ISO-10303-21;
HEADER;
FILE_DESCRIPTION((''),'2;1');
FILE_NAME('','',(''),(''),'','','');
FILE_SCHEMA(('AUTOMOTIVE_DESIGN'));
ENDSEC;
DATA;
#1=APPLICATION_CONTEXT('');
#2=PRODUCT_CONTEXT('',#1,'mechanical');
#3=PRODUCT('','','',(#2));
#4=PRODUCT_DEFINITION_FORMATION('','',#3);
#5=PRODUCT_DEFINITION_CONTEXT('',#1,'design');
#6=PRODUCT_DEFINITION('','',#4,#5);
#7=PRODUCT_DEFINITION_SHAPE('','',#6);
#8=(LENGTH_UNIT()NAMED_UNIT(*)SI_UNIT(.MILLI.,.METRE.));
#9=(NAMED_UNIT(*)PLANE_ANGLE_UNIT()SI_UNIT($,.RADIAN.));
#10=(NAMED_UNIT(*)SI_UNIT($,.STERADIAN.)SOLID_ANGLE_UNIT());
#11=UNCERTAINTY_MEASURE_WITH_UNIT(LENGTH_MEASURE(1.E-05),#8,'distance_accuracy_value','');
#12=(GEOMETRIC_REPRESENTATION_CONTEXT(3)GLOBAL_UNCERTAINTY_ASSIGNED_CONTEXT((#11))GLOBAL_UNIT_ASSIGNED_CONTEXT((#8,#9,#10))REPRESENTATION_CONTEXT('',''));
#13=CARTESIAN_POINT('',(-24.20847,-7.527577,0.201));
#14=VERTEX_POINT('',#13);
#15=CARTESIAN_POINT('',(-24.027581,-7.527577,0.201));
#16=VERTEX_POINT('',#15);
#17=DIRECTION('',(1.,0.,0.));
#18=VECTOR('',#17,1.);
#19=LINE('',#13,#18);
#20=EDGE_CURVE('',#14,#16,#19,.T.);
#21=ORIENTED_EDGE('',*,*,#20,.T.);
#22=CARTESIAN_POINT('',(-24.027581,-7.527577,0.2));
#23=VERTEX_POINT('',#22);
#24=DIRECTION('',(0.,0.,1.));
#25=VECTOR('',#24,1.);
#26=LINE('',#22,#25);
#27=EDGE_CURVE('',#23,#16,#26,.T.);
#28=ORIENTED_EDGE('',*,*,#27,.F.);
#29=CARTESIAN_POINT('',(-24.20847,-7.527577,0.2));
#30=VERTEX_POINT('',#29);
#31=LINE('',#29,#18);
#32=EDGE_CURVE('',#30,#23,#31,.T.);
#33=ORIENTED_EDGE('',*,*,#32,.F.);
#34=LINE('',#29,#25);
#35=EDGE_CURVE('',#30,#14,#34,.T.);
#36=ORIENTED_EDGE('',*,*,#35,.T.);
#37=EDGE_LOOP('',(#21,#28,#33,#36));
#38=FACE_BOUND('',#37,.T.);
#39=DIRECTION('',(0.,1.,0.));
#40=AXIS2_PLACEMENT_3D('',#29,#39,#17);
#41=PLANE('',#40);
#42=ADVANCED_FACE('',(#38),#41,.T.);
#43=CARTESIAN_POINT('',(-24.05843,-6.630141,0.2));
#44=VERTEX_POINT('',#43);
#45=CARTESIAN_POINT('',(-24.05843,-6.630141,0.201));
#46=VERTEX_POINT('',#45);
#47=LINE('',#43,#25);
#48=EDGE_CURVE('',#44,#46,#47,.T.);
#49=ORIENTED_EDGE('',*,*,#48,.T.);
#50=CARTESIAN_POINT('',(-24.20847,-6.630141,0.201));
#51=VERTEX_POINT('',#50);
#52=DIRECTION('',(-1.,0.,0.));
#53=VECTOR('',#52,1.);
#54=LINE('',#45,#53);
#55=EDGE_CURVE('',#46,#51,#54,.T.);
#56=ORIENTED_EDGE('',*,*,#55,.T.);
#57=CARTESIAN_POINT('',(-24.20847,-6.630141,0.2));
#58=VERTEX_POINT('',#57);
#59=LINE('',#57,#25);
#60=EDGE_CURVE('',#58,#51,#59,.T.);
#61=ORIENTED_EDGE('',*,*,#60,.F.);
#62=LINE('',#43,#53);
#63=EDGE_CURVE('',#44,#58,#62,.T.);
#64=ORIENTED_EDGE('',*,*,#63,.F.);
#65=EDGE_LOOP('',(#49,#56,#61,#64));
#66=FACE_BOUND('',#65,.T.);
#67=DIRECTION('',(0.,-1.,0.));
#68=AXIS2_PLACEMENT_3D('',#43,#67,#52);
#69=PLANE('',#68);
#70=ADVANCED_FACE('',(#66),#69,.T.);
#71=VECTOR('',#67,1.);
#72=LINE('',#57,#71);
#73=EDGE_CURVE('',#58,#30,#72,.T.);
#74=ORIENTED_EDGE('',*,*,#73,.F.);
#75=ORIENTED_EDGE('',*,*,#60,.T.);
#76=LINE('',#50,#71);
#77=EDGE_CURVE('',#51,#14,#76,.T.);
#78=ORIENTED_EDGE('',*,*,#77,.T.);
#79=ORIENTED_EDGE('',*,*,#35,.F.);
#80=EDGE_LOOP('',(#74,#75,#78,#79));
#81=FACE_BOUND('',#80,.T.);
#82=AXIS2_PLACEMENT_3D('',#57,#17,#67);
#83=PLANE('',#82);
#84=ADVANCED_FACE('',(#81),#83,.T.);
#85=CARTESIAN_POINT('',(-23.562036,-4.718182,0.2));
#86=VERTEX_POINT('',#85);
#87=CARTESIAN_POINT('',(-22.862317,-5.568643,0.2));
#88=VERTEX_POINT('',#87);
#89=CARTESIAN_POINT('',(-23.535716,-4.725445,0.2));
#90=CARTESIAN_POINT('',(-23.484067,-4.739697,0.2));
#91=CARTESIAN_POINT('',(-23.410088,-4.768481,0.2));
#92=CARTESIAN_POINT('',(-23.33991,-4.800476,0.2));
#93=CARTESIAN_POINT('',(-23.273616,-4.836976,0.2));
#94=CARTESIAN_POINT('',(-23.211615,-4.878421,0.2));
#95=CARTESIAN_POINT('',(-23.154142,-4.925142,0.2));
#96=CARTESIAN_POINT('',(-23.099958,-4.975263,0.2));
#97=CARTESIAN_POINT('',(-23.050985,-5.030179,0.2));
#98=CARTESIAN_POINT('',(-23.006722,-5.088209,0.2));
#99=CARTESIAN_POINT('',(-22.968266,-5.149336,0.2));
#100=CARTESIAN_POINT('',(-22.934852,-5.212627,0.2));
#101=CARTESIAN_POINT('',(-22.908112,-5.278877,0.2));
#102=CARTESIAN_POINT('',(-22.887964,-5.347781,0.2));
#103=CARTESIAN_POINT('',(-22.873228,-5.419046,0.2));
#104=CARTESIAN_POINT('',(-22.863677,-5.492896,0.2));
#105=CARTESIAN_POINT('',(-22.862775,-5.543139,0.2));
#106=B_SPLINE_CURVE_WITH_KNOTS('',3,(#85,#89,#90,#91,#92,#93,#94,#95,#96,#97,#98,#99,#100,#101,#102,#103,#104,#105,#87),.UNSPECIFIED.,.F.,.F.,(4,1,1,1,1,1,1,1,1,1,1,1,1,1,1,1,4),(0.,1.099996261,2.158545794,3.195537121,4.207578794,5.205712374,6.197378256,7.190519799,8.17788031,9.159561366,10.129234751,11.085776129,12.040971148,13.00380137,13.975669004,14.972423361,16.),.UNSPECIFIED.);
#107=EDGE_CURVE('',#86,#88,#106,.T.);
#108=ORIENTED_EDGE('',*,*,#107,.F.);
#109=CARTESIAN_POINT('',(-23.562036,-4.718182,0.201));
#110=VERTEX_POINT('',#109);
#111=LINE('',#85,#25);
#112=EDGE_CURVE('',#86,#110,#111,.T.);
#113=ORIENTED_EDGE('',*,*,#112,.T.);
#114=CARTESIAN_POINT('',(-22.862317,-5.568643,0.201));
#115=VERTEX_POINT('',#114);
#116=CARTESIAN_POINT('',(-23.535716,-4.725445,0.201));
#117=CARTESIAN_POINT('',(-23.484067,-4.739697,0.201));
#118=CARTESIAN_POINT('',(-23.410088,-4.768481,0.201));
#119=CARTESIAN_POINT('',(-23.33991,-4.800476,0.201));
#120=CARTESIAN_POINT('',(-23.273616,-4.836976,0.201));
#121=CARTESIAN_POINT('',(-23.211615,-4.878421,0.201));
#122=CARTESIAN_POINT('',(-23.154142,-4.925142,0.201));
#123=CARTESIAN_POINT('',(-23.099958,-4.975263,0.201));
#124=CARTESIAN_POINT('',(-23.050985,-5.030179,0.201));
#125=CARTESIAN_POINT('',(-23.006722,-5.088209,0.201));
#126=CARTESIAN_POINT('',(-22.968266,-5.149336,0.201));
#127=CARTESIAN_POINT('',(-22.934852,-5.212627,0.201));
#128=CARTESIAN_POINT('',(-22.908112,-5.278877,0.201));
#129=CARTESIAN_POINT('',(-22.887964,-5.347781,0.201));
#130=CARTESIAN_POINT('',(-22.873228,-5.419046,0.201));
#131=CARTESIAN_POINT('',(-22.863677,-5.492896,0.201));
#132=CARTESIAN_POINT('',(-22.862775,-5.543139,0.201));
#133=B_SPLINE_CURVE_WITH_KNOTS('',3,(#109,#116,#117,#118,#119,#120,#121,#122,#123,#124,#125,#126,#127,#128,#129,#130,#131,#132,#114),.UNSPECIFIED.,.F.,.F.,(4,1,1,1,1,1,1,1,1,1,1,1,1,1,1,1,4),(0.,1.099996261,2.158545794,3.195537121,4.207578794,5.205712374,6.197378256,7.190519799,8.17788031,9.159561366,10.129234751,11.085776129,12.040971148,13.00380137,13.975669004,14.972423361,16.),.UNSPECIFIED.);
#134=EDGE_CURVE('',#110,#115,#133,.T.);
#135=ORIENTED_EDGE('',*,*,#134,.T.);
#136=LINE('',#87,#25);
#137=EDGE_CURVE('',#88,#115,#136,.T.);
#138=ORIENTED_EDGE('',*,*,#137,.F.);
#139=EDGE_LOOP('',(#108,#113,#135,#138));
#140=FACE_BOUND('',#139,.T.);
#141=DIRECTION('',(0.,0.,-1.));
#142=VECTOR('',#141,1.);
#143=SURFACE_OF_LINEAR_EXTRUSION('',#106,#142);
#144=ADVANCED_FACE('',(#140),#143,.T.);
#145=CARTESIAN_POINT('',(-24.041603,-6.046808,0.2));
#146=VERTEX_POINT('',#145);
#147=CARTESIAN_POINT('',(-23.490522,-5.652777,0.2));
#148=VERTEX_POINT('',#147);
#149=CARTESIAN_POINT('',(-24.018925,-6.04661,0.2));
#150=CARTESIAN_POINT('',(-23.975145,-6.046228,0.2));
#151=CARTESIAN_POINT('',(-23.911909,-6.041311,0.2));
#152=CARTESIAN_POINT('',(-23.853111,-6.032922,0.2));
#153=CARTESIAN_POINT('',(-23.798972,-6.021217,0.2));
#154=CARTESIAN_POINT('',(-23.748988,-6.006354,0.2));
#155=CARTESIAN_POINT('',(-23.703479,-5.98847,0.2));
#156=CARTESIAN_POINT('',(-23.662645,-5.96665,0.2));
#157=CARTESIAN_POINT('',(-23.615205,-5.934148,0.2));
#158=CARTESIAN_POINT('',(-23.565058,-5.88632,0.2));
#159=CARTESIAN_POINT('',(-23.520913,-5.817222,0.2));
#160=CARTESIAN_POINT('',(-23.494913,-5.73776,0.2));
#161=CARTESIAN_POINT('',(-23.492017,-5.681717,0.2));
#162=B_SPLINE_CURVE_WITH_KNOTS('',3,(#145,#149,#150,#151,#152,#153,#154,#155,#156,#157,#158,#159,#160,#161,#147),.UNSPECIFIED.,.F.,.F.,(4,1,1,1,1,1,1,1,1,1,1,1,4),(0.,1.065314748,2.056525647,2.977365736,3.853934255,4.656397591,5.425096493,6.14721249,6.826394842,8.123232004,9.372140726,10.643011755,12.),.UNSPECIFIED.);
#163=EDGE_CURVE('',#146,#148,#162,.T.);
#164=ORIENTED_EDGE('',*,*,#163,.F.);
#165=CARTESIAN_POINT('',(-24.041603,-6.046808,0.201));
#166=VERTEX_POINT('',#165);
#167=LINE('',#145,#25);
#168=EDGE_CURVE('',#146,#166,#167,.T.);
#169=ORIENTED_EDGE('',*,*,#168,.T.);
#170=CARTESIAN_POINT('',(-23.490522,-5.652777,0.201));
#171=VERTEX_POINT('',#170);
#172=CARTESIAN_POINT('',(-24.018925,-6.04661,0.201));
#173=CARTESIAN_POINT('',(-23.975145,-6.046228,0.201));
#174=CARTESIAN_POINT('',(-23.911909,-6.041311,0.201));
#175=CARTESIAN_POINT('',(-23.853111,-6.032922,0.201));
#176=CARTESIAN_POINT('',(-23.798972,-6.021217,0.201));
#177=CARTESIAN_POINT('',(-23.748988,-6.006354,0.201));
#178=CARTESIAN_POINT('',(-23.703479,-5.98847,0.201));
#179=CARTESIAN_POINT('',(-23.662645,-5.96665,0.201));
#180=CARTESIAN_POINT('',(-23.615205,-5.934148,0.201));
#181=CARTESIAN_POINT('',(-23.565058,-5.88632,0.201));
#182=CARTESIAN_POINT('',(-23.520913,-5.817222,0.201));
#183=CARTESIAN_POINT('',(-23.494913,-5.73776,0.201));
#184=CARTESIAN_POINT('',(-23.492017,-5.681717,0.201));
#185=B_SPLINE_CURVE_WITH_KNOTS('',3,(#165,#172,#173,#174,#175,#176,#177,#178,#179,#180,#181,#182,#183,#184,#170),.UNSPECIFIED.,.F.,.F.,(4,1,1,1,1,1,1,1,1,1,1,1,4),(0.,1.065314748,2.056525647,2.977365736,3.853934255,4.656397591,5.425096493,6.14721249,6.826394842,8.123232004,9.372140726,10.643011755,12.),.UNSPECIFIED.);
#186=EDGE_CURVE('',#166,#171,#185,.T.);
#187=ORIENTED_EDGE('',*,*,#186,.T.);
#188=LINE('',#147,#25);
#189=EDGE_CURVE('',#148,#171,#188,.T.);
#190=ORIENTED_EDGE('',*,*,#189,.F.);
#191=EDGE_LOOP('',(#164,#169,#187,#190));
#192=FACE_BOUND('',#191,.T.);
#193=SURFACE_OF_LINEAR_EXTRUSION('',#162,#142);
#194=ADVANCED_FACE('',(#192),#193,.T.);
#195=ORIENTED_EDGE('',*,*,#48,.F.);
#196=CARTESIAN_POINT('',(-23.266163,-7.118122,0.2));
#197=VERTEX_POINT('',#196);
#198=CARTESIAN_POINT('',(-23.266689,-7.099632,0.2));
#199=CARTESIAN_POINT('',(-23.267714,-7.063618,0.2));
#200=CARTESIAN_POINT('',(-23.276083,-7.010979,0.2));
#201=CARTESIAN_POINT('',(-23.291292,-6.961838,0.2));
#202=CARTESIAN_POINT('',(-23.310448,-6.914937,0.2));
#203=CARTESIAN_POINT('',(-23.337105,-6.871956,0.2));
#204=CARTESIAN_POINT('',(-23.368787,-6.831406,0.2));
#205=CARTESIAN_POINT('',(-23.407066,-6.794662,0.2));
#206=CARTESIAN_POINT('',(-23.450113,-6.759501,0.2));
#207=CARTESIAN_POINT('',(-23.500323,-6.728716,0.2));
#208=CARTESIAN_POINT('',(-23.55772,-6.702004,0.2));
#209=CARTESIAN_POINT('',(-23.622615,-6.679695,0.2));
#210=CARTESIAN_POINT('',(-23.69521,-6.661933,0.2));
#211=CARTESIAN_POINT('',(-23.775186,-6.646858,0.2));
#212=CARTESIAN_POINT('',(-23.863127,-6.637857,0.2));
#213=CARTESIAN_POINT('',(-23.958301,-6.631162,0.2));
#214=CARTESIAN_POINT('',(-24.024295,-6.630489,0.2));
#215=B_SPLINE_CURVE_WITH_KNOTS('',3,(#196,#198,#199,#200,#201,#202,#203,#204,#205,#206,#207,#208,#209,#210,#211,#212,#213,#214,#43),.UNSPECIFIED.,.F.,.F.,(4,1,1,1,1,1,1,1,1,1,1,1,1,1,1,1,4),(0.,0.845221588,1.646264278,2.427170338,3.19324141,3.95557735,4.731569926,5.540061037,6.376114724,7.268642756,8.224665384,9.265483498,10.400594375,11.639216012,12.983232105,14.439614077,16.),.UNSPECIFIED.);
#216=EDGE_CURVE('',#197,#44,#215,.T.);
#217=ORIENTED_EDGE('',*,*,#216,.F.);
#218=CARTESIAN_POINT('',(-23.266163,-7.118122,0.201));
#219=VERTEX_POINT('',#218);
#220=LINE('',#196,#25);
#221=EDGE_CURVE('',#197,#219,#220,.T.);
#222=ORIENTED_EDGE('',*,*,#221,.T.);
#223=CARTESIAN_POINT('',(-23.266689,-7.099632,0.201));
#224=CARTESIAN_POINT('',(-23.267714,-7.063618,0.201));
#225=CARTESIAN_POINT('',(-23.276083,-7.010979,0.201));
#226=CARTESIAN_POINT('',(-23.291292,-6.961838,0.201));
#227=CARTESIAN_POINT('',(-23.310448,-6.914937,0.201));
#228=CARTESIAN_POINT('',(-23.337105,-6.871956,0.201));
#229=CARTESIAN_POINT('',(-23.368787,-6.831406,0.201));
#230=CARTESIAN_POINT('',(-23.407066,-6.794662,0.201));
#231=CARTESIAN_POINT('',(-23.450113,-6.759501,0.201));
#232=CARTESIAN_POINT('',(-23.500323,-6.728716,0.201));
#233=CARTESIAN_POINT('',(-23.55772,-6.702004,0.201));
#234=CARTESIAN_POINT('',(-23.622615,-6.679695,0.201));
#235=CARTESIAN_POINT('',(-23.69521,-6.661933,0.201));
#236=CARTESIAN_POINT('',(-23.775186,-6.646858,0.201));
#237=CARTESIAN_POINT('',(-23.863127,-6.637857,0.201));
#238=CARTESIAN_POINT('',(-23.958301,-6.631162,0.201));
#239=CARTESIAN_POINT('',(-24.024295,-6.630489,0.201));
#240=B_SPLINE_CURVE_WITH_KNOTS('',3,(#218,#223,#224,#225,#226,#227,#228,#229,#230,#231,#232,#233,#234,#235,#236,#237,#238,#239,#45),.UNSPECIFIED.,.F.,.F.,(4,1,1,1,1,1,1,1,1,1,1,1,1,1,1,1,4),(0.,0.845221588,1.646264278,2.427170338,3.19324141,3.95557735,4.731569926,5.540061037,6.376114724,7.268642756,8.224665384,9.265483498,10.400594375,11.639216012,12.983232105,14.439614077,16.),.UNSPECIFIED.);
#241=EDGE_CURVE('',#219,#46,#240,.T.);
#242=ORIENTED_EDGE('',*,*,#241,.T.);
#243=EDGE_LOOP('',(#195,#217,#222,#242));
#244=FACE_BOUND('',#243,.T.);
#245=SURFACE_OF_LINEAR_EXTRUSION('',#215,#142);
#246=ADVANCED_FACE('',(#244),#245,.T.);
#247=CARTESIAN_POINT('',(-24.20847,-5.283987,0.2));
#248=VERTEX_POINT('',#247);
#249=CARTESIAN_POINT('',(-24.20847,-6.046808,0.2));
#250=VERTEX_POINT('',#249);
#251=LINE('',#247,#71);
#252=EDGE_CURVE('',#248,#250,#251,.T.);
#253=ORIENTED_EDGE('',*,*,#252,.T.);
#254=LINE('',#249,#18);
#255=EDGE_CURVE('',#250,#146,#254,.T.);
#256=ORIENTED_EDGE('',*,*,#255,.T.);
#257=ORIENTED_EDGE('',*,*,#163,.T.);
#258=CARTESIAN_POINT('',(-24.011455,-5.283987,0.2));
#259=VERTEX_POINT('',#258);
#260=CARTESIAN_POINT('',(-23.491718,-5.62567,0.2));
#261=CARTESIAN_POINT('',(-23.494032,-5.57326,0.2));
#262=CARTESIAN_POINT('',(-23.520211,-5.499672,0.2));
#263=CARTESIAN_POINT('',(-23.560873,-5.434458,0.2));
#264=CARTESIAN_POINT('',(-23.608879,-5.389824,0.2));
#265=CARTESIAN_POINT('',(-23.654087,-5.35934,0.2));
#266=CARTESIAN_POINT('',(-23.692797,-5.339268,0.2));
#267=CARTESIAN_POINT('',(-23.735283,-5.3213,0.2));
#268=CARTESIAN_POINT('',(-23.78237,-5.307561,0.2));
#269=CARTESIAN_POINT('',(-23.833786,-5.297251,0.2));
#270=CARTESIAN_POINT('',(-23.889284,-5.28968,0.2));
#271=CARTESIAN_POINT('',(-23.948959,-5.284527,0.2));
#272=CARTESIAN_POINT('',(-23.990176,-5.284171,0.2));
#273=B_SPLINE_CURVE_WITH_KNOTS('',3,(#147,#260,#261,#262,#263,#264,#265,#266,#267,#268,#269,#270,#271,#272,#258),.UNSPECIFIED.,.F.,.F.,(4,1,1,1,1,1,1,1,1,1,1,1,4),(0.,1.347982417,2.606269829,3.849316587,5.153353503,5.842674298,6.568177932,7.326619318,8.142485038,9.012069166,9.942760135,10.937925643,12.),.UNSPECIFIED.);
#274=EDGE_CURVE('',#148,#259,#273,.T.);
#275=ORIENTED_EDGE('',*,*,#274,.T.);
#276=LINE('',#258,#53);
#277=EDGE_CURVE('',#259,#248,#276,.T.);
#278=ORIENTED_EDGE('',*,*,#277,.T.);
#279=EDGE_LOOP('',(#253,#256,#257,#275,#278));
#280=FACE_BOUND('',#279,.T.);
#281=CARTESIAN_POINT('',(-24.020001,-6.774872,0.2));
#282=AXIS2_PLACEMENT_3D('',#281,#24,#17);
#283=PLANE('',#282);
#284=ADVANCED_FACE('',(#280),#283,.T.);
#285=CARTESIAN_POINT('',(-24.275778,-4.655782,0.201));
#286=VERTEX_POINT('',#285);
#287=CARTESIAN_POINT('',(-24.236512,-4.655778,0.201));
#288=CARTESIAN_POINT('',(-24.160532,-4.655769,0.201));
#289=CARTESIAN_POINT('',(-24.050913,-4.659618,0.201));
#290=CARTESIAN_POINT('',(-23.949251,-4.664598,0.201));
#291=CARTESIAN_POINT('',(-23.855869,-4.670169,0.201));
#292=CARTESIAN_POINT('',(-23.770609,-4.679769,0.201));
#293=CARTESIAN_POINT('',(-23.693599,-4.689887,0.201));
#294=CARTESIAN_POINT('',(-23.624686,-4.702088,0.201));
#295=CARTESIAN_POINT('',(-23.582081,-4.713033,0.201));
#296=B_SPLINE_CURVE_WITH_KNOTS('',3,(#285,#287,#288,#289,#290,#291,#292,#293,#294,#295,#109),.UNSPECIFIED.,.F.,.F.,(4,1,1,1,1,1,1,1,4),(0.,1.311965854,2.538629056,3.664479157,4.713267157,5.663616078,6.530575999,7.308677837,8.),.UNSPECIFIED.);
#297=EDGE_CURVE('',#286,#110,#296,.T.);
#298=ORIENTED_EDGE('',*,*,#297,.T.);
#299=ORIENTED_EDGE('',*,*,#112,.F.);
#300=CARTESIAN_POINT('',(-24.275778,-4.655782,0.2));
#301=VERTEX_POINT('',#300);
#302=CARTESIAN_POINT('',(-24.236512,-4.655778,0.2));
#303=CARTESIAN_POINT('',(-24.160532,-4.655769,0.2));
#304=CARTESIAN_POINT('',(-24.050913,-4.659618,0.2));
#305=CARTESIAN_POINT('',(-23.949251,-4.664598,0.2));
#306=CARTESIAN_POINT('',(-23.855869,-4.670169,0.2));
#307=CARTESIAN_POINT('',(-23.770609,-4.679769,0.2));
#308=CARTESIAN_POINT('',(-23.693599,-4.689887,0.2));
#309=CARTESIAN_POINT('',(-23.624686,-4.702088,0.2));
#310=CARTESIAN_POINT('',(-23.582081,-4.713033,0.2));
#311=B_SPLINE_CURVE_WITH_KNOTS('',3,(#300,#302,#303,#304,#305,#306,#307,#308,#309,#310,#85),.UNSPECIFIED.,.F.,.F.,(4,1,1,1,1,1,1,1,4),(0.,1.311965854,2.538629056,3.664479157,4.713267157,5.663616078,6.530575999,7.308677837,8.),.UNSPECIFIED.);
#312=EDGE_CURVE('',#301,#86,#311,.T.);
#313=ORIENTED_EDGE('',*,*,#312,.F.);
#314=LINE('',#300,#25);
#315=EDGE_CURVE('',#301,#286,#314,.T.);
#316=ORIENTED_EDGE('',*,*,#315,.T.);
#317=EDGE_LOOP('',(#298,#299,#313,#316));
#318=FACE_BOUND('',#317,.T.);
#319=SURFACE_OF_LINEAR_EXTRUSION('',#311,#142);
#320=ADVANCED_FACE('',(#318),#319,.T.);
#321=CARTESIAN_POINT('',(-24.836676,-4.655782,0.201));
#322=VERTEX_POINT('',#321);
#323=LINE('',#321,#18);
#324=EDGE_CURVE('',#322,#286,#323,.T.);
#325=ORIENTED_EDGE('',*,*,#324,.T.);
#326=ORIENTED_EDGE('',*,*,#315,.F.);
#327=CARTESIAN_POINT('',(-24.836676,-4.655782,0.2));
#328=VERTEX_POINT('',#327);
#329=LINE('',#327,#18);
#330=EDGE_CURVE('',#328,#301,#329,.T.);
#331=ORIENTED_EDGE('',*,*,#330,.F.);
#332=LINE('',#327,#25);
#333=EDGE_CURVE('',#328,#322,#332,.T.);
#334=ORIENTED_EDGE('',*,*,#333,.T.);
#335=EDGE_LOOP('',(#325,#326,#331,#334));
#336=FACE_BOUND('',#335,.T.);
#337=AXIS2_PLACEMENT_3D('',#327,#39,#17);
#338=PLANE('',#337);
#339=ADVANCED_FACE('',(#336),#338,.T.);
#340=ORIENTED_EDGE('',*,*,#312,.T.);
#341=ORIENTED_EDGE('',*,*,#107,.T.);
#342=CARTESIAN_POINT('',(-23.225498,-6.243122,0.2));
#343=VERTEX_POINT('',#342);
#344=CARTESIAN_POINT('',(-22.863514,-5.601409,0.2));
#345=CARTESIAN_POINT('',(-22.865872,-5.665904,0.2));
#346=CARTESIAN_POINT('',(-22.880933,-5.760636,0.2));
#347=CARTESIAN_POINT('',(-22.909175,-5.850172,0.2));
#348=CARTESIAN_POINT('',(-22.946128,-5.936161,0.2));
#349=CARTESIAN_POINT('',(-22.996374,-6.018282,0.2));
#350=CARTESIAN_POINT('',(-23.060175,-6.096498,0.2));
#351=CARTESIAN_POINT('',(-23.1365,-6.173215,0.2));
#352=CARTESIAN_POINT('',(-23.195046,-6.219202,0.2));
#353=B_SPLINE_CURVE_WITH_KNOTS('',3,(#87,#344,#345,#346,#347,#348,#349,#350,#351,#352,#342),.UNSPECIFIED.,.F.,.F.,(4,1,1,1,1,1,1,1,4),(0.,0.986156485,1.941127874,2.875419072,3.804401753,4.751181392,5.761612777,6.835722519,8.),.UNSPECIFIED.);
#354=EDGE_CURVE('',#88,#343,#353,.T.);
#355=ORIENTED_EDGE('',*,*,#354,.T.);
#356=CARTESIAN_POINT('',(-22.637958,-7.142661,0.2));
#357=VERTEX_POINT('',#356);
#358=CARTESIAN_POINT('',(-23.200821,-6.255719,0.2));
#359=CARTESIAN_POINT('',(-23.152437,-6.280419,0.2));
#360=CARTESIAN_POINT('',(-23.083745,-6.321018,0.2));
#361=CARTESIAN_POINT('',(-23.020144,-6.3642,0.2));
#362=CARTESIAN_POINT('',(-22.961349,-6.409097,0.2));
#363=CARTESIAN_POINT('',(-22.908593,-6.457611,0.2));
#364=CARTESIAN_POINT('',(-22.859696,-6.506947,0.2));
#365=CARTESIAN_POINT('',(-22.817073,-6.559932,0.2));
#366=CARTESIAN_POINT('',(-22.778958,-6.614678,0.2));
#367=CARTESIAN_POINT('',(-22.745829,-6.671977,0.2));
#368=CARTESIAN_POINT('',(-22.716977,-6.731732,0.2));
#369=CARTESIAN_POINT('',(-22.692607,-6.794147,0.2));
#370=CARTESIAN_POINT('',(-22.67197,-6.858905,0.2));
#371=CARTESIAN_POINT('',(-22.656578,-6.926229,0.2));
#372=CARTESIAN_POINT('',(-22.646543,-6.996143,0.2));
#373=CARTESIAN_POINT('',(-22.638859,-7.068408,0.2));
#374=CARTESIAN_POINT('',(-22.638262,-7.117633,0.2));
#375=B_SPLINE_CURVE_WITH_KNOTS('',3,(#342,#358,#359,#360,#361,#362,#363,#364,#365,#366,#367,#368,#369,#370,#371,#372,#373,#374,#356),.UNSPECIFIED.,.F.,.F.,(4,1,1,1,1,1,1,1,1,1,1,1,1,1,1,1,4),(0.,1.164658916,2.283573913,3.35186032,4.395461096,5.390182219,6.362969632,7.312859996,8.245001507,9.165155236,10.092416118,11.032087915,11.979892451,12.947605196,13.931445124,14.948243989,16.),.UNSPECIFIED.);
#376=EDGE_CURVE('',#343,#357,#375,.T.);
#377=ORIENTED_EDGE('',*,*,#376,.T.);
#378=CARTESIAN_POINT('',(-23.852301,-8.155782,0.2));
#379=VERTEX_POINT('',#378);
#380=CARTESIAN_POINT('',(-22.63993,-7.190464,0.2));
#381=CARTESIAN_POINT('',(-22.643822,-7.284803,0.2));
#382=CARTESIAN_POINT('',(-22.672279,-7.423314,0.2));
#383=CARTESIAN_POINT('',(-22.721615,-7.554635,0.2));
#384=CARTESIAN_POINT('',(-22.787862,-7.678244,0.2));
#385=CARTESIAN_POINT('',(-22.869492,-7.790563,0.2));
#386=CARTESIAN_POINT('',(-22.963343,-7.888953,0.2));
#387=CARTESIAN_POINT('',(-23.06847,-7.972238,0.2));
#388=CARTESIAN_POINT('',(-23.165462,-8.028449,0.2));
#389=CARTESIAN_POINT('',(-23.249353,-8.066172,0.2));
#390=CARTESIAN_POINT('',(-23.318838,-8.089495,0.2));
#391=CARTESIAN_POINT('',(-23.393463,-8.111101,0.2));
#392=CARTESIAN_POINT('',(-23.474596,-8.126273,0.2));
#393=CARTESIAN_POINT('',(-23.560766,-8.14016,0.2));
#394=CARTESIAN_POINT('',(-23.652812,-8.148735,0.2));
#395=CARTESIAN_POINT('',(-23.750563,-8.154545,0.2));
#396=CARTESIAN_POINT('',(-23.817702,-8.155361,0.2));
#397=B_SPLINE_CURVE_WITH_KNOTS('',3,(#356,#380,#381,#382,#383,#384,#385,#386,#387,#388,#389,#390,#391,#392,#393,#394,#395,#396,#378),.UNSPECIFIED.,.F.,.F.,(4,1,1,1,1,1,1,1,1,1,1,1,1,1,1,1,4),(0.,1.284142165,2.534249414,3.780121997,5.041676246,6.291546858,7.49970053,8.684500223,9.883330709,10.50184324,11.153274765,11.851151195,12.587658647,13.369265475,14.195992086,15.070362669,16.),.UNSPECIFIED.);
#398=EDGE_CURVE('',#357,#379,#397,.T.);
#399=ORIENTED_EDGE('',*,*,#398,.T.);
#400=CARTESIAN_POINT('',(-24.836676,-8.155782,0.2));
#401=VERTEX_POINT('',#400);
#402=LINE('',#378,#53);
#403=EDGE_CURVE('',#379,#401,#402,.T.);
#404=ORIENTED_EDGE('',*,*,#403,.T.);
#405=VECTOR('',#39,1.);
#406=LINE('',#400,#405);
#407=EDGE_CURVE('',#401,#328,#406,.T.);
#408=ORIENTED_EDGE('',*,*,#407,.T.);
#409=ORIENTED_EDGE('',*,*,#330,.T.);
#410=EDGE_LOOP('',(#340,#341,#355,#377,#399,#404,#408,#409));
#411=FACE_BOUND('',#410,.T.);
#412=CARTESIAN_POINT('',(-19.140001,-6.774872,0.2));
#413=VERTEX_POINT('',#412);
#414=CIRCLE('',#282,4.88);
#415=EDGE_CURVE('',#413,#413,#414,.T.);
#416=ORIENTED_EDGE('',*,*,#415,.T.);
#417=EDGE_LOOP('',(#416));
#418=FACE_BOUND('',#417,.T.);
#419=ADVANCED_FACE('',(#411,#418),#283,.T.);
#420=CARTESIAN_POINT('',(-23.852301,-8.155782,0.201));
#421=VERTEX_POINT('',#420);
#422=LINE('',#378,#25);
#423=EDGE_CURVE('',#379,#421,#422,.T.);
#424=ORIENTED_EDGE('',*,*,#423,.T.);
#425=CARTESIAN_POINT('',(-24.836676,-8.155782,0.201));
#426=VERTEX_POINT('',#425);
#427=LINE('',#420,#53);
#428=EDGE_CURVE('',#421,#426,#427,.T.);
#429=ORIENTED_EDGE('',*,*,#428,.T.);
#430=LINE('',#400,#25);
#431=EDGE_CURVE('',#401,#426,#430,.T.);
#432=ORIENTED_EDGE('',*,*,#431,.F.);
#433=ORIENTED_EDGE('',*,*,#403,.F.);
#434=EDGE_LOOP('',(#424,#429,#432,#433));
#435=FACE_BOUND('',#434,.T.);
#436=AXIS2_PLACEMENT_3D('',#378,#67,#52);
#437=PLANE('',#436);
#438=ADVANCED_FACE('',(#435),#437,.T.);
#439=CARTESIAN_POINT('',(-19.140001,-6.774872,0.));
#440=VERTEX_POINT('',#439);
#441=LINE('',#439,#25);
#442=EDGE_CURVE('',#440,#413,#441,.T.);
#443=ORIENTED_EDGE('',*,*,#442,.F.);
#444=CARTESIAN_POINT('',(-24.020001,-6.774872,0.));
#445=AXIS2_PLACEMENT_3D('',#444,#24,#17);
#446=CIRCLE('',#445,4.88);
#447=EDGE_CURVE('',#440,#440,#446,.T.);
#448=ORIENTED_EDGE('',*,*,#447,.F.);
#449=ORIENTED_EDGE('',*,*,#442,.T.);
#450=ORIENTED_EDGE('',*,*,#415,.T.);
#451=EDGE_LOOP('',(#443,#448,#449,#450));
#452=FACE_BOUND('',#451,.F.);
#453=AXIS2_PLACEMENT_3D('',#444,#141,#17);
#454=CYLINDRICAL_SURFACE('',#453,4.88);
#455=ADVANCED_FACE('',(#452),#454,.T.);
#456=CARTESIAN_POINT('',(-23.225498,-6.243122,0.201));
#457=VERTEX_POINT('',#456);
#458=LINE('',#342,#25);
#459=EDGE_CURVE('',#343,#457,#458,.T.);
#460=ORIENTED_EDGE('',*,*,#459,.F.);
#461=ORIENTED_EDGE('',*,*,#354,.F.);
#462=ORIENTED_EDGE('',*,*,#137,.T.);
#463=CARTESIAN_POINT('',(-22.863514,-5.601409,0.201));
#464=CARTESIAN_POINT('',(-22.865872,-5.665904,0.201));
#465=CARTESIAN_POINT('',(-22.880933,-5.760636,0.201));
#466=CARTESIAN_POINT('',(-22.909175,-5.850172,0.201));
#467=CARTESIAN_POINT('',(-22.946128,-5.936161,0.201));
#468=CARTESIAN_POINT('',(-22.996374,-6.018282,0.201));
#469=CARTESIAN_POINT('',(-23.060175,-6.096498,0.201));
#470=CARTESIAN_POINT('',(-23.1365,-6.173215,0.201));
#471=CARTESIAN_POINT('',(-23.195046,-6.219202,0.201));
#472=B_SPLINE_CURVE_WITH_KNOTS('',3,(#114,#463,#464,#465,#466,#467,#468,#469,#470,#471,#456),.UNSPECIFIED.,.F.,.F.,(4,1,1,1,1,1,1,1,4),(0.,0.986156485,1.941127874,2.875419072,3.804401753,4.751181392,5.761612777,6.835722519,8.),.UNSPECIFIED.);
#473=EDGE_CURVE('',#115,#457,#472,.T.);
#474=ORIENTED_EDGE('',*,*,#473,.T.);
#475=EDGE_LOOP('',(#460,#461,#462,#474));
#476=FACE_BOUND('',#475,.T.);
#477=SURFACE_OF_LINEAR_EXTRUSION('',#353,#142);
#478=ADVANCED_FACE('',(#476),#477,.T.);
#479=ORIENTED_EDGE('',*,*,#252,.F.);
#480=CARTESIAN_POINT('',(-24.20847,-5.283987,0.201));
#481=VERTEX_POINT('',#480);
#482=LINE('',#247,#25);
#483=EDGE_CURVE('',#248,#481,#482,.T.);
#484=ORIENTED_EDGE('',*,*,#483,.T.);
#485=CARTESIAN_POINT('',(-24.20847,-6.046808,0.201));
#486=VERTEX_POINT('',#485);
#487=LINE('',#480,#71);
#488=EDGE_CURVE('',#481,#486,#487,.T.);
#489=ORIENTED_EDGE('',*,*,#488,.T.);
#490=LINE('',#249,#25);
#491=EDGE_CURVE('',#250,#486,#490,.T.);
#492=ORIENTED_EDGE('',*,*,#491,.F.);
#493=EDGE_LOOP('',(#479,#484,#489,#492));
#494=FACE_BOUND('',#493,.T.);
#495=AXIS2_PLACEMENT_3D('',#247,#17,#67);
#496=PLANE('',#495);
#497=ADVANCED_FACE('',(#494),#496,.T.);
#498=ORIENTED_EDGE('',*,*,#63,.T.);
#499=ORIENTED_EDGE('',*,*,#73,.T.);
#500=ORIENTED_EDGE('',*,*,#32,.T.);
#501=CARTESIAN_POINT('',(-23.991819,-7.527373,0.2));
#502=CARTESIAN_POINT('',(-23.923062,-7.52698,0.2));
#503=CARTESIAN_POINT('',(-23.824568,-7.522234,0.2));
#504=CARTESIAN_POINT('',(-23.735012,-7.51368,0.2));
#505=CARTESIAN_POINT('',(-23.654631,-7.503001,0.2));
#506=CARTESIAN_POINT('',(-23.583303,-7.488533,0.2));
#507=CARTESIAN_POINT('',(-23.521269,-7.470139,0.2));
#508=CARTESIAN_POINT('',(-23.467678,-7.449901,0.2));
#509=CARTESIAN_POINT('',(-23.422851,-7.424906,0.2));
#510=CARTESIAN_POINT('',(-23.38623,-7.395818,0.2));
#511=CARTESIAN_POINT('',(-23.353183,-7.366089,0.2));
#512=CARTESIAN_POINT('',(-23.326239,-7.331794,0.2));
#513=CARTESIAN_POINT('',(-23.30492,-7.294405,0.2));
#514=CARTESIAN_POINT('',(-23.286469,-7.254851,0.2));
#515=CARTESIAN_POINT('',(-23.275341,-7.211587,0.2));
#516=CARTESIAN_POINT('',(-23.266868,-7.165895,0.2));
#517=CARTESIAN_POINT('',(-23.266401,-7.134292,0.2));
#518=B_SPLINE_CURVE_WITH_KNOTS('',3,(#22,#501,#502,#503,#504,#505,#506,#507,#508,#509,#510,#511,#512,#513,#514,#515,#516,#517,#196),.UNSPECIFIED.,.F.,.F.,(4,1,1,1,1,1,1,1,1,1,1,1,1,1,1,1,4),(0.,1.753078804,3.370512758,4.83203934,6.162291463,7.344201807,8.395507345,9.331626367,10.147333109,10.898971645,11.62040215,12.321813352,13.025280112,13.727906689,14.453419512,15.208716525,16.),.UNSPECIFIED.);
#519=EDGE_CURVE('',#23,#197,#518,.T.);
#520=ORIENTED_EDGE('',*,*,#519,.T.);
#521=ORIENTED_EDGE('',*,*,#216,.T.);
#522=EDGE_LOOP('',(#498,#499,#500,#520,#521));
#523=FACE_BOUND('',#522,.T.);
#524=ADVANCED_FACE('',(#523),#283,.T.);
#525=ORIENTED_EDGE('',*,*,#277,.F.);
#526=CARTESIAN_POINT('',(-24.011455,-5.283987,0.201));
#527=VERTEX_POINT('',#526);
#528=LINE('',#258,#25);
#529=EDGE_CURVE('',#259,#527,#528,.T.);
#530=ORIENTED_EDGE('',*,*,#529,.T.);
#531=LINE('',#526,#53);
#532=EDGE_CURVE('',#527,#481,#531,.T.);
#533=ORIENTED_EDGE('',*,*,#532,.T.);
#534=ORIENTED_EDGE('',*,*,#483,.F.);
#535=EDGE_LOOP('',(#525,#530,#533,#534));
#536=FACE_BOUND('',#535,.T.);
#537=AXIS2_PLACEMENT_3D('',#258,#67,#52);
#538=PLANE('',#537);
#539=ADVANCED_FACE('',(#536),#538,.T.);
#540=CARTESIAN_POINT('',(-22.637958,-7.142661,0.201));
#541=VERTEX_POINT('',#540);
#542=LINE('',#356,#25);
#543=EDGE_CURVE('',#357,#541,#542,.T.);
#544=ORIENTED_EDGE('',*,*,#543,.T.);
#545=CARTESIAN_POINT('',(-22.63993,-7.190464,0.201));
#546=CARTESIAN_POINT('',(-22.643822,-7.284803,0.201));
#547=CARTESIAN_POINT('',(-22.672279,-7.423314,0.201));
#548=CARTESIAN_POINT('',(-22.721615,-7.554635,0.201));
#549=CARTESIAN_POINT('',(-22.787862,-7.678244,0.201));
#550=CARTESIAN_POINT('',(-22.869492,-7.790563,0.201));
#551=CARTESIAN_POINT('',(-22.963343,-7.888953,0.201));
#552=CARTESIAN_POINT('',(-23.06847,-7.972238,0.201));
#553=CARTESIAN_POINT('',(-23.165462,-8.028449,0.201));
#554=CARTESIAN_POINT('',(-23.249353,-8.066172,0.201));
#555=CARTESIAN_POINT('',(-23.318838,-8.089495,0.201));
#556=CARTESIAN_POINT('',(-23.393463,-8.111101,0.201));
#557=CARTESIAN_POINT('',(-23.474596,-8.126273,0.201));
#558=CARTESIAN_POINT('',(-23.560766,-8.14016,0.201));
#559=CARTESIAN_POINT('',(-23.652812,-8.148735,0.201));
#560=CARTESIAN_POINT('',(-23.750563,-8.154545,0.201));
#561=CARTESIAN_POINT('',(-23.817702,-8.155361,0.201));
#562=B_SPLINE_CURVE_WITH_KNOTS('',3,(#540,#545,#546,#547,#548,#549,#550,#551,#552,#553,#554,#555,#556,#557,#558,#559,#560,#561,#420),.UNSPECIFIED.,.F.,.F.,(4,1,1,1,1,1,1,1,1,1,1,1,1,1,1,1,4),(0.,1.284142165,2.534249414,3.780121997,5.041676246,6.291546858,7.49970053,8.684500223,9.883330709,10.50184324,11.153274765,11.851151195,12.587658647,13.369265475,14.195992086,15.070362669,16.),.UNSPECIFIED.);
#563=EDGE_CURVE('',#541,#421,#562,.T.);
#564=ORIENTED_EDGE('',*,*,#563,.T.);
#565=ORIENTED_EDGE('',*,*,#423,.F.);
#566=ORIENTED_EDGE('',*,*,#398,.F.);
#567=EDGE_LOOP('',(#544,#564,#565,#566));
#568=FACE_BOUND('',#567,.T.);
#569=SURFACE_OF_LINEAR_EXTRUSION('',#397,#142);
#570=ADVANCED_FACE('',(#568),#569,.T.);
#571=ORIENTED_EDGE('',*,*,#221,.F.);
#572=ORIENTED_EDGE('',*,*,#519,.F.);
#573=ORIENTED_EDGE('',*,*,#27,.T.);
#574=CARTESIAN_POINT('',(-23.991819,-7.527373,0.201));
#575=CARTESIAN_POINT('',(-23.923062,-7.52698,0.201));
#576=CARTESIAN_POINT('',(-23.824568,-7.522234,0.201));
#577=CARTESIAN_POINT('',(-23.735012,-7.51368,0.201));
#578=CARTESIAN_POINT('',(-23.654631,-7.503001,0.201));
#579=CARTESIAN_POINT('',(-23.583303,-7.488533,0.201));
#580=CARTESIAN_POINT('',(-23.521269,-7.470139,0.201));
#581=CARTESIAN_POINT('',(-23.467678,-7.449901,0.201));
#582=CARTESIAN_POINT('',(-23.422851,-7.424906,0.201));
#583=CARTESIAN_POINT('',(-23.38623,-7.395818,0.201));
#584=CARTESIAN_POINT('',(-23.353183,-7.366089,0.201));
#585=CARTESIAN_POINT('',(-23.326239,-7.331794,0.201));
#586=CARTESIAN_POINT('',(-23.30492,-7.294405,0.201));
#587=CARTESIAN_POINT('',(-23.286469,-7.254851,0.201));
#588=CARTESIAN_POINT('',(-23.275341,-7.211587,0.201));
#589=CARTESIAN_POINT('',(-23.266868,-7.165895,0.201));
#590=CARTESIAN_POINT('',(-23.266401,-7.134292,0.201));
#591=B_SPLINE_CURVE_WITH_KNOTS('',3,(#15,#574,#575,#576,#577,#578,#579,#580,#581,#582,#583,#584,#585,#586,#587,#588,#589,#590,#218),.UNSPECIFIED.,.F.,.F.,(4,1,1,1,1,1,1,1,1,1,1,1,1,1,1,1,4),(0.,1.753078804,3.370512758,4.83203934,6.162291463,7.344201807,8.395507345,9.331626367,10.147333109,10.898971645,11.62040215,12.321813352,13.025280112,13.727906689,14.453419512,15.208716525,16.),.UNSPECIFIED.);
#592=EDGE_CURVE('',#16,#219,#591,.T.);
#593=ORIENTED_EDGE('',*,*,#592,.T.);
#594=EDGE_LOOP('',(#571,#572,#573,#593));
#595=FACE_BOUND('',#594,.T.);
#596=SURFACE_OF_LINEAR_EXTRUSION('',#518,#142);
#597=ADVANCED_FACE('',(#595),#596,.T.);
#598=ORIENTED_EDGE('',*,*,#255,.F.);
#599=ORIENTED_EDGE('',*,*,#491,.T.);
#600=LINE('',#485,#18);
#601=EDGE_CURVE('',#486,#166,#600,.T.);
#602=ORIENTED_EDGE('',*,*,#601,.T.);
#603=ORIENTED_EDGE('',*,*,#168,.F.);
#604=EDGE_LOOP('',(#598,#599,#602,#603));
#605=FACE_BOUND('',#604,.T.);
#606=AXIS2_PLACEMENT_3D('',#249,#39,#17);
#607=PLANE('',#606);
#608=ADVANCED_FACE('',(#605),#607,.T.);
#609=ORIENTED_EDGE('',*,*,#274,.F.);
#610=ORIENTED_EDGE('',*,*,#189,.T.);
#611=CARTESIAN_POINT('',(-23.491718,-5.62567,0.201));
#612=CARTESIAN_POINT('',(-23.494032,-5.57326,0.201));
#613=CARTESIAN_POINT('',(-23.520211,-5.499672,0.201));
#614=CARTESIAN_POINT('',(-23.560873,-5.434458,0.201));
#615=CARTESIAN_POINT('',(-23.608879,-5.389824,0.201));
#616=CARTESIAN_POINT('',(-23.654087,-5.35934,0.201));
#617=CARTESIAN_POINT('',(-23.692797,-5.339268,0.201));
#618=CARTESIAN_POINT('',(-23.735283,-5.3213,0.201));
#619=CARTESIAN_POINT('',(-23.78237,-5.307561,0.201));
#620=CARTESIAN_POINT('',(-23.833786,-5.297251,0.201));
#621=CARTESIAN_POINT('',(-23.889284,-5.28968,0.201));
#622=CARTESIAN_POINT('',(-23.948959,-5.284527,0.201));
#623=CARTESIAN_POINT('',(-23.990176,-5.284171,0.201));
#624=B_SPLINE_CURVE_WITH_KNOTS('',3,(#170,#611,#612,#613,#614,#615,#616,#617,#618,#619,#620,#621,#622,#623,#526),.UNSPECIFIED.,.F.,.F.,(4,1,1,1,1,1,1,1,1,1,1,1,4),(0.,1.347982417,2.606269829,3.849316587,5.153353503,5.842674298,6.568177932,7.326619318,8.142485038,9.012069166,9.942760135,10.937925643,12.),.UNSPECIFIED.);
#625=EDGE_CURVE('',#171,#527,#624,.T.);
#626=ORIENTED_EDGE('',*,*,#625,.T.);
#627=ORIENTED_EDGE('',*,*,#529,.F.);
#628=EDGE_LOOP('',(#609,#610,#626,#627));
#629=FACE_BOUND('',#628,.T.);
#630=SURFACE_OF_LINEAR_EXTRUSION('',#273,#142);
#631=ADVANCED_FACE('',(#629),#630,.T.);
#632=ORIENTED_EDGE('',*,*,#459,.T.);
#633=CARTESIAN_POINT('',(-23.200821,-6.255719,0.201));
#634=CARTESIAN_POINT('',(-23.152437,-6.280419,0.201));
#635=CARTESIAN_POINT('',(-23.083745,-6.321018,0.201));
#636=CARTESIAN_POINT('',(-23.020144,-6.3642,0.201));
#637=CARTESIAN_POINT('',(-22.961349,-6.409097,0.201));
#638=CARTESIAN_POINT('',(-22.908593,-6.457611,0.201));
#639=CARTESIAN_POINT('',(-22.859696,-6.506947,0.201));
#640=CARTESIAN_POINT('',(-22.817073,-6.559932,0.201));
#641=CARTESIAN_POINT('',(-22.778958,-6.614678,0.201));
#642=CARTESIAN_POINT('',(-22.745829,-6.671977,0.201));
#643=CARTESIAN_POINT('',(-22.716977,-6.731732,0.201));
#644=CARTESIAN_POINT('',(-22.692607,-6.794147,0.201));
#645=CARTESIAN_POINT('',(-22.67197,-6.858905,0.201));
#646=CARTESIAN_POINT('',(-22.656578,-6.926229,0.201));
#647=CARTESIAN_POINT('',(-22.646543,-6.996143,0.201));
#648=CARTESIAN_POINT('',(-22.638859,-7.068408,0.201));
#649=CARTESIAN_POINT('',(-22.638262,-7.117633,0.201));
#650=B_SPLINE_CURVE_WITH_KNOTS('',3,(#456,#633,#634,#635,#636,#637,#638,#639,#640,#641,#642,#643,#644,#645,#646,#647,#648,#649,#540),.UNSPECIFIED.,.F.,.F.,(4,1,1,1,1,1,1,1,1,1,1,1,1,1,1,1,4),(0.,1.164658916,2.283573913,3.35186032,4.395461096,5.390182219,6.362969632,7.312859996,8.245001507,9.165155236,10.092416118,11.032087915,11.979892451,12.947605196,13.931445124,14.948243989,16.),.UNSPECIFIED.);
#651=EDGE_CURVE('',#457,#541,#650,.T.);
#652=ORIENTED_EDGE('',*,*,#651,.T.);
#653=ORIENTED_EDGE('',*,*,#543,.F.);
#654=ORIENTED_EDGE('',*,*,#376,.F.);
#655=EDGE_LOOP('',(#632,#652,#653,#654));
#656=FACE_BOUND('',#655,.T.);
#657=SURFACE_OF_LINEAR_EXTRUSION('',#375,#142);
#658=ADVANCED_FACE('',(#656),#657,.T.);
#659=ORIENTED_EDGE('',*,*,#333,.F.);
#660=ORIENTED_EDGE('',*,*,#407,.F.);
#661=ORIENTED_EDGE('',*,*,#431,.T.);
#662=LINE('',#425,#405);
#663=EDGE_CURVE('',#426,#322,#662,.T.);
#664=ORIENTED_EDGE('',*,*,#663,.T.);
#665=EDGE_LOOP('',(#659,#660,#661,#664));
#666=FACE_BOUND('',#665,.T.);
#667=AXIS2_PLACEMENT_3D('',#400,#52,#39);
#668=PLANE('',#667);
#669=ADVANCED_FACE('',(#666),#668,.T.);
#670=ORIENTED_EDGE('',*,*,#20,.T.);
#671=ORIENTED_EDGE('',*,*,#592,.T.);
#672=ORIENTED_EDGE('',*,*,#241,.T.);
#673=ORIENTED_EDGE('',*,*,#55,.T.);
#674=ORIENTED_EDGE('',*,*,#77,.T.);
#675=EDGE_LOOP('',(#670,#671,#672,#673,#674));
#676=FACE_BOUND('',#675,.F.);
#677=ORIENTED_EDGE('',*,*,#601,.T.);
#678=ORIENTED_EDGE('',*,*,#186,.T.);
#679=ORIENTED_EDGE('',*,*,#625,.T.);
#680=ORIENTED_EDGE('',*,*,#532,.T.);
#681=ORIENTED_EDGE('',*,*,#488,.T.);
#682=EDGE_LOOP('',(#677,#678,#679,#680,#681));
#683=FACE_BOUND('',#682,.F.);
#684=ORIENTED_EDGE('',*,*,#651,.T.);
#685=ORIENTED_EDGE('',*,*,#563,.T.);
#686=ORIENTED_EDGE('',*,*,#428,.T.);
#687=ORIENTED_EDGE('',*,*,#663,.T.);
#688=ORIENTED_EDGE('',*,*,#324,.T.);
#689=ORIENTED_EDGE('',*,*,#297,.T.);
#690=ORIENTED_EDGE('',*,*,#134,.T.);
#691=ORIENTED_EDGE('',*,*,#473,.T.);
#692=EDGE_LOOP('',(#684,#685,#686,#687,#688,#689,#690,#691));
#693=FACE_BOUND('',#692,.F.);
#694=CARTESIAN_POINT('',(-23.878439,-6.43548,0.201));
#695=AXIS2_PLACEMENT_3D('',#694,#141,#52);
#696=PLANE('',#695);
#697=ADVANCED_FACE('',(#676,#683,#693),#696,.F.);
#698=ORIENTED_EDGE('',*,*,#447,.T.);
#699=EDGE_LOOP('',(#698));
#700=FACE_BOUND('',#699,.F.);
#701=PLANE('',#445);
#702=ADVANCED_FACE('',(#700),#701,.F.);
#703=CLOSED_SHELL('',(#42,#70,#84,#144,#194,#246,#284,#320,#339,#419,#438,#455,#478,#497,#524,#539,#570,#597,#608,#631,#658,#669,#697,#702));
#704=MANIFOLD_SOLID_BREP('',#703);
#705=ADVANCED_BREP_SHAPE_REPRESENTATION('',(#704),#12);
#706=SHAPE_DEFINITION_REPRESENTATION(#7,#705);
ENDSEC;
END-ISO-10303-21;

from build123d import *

# Parameters (mm, degrees)
SKETCH1_R           = 4.88
BOSS_EXTRUDE1_DEPTH = 0.2
BOSS_EXTRUDE2_DEPTH = 0.001


with BuildPart() as part:
    # Sketch1 → Boss-Extrude1 (new body)
    with BuildSketch(Plane.XY):
        with Locations((-24.02000111, -6.774872108)):
            Circle(SKETCH1_R)
    extrude(amount=BOSS_EXTRUDE1_DEPTH)

    # Sketch3 → Boss-Extrude2 (add)
    with BuildSketch(Plane.XY.offset(0.2)):
        with BuildLine():
            Line((-24.836675582, -8.155782129), (-24.836675582, -4.655782129))
            Line((-24.836675582, -4.655782129), (-24.275778146, -4.655782129))
            add(Edge.make_bspline(
                [(-24.275778146, -4.655782129), (-24.236511819, -4.655777648), (-24.160532219, -4.655768977), (-24.050913486, -4.659618427), (-23.949251368, -4.664598122), (-23.855869395, -4.670169242), (-23.770608623, -4.679769396), (-23.693598705, -4.68988691), (-23.624685775, -4.702088007), (-23.582080655, -4.71303277), (-23.562036159, -4.718181969)],
                knots=[0, 0, 0, 0, 1.311965854, 2.538629056, 3.664479157, 4.713267157, 5.663616078, 6.530575999, 7.308677837, 8, 8, 8, 8], degree=3))
            add(Edge.make_bspline(
                [(-23.562036159, -4.718181969), (-23.535715701, -4.725445006), (-23.484066512, -4.739697417), (-23.410088391, -4.768480776), (-23.339909823, -4.800475521), (-23.273616496, -4.836975541), (-23.211615476, -4.878421493), (-23.154142389, -4.925142306), (-23.099957682, -4.975262607), (-23.05098533, -5.030179235), (-23.006722392, -5.088208826), (-22.968265836, -5.149336173), (-22.934852017, -5.2126266), (-22.90811221, -5.278876575), (-22.887964268, -5.347780999), (-22.873228147, -5.419045639), (-22.863677145, -5.492895994), (-22.8627747, -5.543138805), (-22.862316608, -5.568642706)],
                knots=[0, 0, 0, 0, 1.099996261, 2.158545794, 3.195537121, 4.207578794, 5.205712374, 6.197378256, 7.190519799, 8.17788031, 9.159561366, 10.129234751, 11.085776129, 12.040971148, 13.00380137, 13.975669004, 14.972423361, 16, 16, 16, 16], degree=3))
            add(Edge.make_bspline(
                [(-22.862316608, -5.568642706), (-22.863514384, -5.601408525), (-22.865872058, -5.665904014), (-22.880933042, -5.760636218), (-22.909174734, -5.850171768), (-22.946128301, -5.936160769), (-22.996373599, -6.018282481), (-23.06017541, -6.096497859), (-23.136500353, -6.17321527), (-23.195045798, -6.219202183), (-23.225497698, -6.243121873)],
                knots=[0, 0, 0, 0, 0.986156485, 1.941127874, 2.875419072, 3.804401753, 4.751181392, 5.761612777, 6.835722519, 8, 8, 8, 8], degree=3))
            add(Edge.make_bspline(
                [(-23.225497698, -6.243121873), (-23.200820939, -6.255719144), (-23.152436643, -6.280418908), (-23.083745156, -6.321017946), (-23.020144338, -6.364200172), (-22.961349022, -6.409096743), (-22.908592505, -6.457610888), (-22.859696385, -6.506947156), (-22.81707294, -6.559932311), (-22.778957771, -6.61467786), (-22.745828686, -6.671976526), (-22.716976906, -6.731731543), (-22.692606843, -6.794147048), (-22.671969642, -6.858905396), (-22.656578413, -6.926229327), (-22.646543004, -6.996142917), (-22.638859268, -7.068407727), (-22.638261545, -7.11763271), (-22.637957634, -7.142661136)],
                knots=[0, 0, 0, 0, 1.164658916, 2.283573913, 3.35186032, 4.395461096, 5.390182219, 6.362969632, 7.312859996, 8.245001507, 9.165155236, 10.092416118, 11.032087915, 11.979892451, 12.947605196, 13.931445124, 14.948243989, 16, 16, 16, 16], degree=3))
            add(Edge.make_bspline(
                [(-22.637957634, -7.142661136), (-22.639929818, -7.190463998), (-22.643821916, -7.284802755), (-22.672279037, -7.423313716), (-22.721614642, -7.554634671), (-22.787862186, -7.678243692), (-22.869491907, -7.790562503), (-22.963342678, -7.888952806), (-23.068469636, -7.972238013), (-23.16546196, -8.028449067), (-23.249352683, -8.06617194), (-23.318837801, -8.0894946), (-23.393463346, -8.111100676), (-23.474596277, -8.126272909), (-23.560765765, -8.140160205), (-23.652811968, -8.148734509), (-23.750562854, -8.154545104), (-23.817702388, -8.155361451), (-23.852300582, -8.155782129)],
                knots=[0, 0, 0, 0, 1.284142165, 2.534249414, 3.780121997, 5.041676246, 6.291546858, 7.49970053, 8.684500223, 9.883330709, 10.50184324, 11.153274765, 11.851151195, 12.587658647, 13.369265475, 14.195992086, 15.070362669, 16, 16, 16, 16], degree=3))
            Line((-23.852300582, -8.155782129), (-24.836675582, -8.155782129))
        make_face()
        with BuildLine():
            Line((-24.208470454, -5.283987258), (-24.208470454, -6.04680777))
            Line((-24.208470454, -6.04680777), (-24.041603467, -6.04680777))
            add(Edge.make_bspline(
                [(-24.041603467, -6.04680777), (-24.018924744, -6.046610003), (-23.975144842, -6.046228226), (-23.911909418, -6.041311067), (-23.853110685, -6.032922088), (-23.798971656, -6.021217352), (-23.748988004, -6.006354044), (-23.70347904, -5.988470283), (-23.662644859, -5.966650151), (-23.615204985, -5.934148102), (-23.565057617, -5.886319881), (-23.520913454, -5.817222107), (-23.494912836, -5.737759929), (-23.492017068, -5.681717049), (-23.490521736, -5.652777322)],
                knots=[0, 0, 0, 0, 1.065314748, 2.056525647, 2.977365736, 3.853934255, 4.656397591, 5.425096493, 6.14721249, 6.826394842, 8.123232004, 9.372140726, 10.643011755, 12, 12, 12, 12], degree=3))
            add(Edge.make_bspline(
                [(-23.490521736, -5.652777322), (-23.491718276, -5.625670459), (-23.494031737, -5.573260429), (-23.520211016, -5.49967208), (-23.560872612, -5.434457742), (-23.608879341, -5.389823861), (-23.654087005, -5.359340236), (-23.692796581, -5.339268067), (-23.735283248, -5.321299666), (-23.782369501, -5.307560589), (-23.833786453, -5.29725127), (-23.889284342, -5.289680309), (-23.948958922, -5.284527191), (-23.990176282, -5.284171096), (-24.01145523, -5.283987258)],
                knots=[0, 0, 0, 0, 1.347982417, 2.606269829, 3.849316587, 5.153353503, 5.842674298, 6.568177932, 7.326619318, 8.142485038, 9.012069166, 9.942760135, 10.937925643, 12, 12, 12, 12], degree=3))
            Line((-24.01145523, -5.283987258), (-24.208470454, -5.283987258))
        make_face(mode=Mode.SUBTRACT)
        with BuildLine():
            Line((-24.208470454, -6.630141104), (-24.208470454, -7.527577001))
            Line((-24.208470454, -7.527577001), (-24.027581031, -7.527577001))
            add(Edge.make_bspline(
                [(-24.027581031, -7.527577001), (-23.991818962, -7.527372694), (-23.923061921, -7.526979887), (-23.824567582, -7.522233852), (-23.735011604, -7.513679959), (-23.654631277, -7.503001112), (-23.583303484, -7.488532946), (-23.521269328, -7.470138526), (-23.467678092, -7.449901461), (-23.422851113, -7.424906282), (-23.386230038, -7.395818093), (-23.353183358, -7.366089264), (-23.326239154, -7.331794252), (-23.304920397, -7.294405246), (-23.286469051, -7.254851016), (-23.275340502, -7.211586983), (-23.266867615, -7.165895389), (-23.266401329, -7.134291502), (-23.266162762, -7.118121873)],
                knots=[0, 0, 0, 0, 1.753078804, 3.370512758, 4.83203934, 6.162291463, 7.344201807, 8.395507345, 9.331626367, 10.147333109, 10.898971645, 11.62040215, 12.321813352, 13.025280112, 13.727906689, 14.453419512, 15.208716525, 16, 16, 16, 16], degree=3))
            add(Edge.make_bspline(
                [(-23.266162762, -7.118121873), (-23.266688872, -7.099631647), (-23.267713593, -7.063617662), (-23.276082503, -7.010979379), (-23.291291546, -6.961838049), (-23.310448079, -6.914937062), (-23.337105411, -6.871955637), (-23.368786739, -6.83140635), (-23.407065872, -6.794662324), (-23.450112989, -6.759501145), (-23.50032319, -6.728715627), (-23.557720031, -6.702003737), (-23.622615324, -6.679694951), (-23.695210087, -6.66193268), (-23.775186072, -6.646858087), (-23.863127016, -6.63785689), (-23.958300515, -6.631162305), (-24.024295368, -6.630489239), (-24.05843039, -6.630141104)],
                knots=[0, 0, 0, 0, 0.845221588, 1.646264278, 2.427170338, 3.19324141, 3.95557735, 4.731569926, 5.540061037, 6.376114724, 7.268642756, 8.224665384, 9.265483498, 10.400594375, 11.639216012, 12.983232105, 14.439614077, 16, 16, 16, 16], degree=3))
            Line((-24.05843039, -6.630141104), (-24.208470454, -6.630141104))
        make_face(mode=Mode.SUBTRACT)
    extrude(amount=BOSS_EXTRUDE2_DEPTH)


solid = part.part
